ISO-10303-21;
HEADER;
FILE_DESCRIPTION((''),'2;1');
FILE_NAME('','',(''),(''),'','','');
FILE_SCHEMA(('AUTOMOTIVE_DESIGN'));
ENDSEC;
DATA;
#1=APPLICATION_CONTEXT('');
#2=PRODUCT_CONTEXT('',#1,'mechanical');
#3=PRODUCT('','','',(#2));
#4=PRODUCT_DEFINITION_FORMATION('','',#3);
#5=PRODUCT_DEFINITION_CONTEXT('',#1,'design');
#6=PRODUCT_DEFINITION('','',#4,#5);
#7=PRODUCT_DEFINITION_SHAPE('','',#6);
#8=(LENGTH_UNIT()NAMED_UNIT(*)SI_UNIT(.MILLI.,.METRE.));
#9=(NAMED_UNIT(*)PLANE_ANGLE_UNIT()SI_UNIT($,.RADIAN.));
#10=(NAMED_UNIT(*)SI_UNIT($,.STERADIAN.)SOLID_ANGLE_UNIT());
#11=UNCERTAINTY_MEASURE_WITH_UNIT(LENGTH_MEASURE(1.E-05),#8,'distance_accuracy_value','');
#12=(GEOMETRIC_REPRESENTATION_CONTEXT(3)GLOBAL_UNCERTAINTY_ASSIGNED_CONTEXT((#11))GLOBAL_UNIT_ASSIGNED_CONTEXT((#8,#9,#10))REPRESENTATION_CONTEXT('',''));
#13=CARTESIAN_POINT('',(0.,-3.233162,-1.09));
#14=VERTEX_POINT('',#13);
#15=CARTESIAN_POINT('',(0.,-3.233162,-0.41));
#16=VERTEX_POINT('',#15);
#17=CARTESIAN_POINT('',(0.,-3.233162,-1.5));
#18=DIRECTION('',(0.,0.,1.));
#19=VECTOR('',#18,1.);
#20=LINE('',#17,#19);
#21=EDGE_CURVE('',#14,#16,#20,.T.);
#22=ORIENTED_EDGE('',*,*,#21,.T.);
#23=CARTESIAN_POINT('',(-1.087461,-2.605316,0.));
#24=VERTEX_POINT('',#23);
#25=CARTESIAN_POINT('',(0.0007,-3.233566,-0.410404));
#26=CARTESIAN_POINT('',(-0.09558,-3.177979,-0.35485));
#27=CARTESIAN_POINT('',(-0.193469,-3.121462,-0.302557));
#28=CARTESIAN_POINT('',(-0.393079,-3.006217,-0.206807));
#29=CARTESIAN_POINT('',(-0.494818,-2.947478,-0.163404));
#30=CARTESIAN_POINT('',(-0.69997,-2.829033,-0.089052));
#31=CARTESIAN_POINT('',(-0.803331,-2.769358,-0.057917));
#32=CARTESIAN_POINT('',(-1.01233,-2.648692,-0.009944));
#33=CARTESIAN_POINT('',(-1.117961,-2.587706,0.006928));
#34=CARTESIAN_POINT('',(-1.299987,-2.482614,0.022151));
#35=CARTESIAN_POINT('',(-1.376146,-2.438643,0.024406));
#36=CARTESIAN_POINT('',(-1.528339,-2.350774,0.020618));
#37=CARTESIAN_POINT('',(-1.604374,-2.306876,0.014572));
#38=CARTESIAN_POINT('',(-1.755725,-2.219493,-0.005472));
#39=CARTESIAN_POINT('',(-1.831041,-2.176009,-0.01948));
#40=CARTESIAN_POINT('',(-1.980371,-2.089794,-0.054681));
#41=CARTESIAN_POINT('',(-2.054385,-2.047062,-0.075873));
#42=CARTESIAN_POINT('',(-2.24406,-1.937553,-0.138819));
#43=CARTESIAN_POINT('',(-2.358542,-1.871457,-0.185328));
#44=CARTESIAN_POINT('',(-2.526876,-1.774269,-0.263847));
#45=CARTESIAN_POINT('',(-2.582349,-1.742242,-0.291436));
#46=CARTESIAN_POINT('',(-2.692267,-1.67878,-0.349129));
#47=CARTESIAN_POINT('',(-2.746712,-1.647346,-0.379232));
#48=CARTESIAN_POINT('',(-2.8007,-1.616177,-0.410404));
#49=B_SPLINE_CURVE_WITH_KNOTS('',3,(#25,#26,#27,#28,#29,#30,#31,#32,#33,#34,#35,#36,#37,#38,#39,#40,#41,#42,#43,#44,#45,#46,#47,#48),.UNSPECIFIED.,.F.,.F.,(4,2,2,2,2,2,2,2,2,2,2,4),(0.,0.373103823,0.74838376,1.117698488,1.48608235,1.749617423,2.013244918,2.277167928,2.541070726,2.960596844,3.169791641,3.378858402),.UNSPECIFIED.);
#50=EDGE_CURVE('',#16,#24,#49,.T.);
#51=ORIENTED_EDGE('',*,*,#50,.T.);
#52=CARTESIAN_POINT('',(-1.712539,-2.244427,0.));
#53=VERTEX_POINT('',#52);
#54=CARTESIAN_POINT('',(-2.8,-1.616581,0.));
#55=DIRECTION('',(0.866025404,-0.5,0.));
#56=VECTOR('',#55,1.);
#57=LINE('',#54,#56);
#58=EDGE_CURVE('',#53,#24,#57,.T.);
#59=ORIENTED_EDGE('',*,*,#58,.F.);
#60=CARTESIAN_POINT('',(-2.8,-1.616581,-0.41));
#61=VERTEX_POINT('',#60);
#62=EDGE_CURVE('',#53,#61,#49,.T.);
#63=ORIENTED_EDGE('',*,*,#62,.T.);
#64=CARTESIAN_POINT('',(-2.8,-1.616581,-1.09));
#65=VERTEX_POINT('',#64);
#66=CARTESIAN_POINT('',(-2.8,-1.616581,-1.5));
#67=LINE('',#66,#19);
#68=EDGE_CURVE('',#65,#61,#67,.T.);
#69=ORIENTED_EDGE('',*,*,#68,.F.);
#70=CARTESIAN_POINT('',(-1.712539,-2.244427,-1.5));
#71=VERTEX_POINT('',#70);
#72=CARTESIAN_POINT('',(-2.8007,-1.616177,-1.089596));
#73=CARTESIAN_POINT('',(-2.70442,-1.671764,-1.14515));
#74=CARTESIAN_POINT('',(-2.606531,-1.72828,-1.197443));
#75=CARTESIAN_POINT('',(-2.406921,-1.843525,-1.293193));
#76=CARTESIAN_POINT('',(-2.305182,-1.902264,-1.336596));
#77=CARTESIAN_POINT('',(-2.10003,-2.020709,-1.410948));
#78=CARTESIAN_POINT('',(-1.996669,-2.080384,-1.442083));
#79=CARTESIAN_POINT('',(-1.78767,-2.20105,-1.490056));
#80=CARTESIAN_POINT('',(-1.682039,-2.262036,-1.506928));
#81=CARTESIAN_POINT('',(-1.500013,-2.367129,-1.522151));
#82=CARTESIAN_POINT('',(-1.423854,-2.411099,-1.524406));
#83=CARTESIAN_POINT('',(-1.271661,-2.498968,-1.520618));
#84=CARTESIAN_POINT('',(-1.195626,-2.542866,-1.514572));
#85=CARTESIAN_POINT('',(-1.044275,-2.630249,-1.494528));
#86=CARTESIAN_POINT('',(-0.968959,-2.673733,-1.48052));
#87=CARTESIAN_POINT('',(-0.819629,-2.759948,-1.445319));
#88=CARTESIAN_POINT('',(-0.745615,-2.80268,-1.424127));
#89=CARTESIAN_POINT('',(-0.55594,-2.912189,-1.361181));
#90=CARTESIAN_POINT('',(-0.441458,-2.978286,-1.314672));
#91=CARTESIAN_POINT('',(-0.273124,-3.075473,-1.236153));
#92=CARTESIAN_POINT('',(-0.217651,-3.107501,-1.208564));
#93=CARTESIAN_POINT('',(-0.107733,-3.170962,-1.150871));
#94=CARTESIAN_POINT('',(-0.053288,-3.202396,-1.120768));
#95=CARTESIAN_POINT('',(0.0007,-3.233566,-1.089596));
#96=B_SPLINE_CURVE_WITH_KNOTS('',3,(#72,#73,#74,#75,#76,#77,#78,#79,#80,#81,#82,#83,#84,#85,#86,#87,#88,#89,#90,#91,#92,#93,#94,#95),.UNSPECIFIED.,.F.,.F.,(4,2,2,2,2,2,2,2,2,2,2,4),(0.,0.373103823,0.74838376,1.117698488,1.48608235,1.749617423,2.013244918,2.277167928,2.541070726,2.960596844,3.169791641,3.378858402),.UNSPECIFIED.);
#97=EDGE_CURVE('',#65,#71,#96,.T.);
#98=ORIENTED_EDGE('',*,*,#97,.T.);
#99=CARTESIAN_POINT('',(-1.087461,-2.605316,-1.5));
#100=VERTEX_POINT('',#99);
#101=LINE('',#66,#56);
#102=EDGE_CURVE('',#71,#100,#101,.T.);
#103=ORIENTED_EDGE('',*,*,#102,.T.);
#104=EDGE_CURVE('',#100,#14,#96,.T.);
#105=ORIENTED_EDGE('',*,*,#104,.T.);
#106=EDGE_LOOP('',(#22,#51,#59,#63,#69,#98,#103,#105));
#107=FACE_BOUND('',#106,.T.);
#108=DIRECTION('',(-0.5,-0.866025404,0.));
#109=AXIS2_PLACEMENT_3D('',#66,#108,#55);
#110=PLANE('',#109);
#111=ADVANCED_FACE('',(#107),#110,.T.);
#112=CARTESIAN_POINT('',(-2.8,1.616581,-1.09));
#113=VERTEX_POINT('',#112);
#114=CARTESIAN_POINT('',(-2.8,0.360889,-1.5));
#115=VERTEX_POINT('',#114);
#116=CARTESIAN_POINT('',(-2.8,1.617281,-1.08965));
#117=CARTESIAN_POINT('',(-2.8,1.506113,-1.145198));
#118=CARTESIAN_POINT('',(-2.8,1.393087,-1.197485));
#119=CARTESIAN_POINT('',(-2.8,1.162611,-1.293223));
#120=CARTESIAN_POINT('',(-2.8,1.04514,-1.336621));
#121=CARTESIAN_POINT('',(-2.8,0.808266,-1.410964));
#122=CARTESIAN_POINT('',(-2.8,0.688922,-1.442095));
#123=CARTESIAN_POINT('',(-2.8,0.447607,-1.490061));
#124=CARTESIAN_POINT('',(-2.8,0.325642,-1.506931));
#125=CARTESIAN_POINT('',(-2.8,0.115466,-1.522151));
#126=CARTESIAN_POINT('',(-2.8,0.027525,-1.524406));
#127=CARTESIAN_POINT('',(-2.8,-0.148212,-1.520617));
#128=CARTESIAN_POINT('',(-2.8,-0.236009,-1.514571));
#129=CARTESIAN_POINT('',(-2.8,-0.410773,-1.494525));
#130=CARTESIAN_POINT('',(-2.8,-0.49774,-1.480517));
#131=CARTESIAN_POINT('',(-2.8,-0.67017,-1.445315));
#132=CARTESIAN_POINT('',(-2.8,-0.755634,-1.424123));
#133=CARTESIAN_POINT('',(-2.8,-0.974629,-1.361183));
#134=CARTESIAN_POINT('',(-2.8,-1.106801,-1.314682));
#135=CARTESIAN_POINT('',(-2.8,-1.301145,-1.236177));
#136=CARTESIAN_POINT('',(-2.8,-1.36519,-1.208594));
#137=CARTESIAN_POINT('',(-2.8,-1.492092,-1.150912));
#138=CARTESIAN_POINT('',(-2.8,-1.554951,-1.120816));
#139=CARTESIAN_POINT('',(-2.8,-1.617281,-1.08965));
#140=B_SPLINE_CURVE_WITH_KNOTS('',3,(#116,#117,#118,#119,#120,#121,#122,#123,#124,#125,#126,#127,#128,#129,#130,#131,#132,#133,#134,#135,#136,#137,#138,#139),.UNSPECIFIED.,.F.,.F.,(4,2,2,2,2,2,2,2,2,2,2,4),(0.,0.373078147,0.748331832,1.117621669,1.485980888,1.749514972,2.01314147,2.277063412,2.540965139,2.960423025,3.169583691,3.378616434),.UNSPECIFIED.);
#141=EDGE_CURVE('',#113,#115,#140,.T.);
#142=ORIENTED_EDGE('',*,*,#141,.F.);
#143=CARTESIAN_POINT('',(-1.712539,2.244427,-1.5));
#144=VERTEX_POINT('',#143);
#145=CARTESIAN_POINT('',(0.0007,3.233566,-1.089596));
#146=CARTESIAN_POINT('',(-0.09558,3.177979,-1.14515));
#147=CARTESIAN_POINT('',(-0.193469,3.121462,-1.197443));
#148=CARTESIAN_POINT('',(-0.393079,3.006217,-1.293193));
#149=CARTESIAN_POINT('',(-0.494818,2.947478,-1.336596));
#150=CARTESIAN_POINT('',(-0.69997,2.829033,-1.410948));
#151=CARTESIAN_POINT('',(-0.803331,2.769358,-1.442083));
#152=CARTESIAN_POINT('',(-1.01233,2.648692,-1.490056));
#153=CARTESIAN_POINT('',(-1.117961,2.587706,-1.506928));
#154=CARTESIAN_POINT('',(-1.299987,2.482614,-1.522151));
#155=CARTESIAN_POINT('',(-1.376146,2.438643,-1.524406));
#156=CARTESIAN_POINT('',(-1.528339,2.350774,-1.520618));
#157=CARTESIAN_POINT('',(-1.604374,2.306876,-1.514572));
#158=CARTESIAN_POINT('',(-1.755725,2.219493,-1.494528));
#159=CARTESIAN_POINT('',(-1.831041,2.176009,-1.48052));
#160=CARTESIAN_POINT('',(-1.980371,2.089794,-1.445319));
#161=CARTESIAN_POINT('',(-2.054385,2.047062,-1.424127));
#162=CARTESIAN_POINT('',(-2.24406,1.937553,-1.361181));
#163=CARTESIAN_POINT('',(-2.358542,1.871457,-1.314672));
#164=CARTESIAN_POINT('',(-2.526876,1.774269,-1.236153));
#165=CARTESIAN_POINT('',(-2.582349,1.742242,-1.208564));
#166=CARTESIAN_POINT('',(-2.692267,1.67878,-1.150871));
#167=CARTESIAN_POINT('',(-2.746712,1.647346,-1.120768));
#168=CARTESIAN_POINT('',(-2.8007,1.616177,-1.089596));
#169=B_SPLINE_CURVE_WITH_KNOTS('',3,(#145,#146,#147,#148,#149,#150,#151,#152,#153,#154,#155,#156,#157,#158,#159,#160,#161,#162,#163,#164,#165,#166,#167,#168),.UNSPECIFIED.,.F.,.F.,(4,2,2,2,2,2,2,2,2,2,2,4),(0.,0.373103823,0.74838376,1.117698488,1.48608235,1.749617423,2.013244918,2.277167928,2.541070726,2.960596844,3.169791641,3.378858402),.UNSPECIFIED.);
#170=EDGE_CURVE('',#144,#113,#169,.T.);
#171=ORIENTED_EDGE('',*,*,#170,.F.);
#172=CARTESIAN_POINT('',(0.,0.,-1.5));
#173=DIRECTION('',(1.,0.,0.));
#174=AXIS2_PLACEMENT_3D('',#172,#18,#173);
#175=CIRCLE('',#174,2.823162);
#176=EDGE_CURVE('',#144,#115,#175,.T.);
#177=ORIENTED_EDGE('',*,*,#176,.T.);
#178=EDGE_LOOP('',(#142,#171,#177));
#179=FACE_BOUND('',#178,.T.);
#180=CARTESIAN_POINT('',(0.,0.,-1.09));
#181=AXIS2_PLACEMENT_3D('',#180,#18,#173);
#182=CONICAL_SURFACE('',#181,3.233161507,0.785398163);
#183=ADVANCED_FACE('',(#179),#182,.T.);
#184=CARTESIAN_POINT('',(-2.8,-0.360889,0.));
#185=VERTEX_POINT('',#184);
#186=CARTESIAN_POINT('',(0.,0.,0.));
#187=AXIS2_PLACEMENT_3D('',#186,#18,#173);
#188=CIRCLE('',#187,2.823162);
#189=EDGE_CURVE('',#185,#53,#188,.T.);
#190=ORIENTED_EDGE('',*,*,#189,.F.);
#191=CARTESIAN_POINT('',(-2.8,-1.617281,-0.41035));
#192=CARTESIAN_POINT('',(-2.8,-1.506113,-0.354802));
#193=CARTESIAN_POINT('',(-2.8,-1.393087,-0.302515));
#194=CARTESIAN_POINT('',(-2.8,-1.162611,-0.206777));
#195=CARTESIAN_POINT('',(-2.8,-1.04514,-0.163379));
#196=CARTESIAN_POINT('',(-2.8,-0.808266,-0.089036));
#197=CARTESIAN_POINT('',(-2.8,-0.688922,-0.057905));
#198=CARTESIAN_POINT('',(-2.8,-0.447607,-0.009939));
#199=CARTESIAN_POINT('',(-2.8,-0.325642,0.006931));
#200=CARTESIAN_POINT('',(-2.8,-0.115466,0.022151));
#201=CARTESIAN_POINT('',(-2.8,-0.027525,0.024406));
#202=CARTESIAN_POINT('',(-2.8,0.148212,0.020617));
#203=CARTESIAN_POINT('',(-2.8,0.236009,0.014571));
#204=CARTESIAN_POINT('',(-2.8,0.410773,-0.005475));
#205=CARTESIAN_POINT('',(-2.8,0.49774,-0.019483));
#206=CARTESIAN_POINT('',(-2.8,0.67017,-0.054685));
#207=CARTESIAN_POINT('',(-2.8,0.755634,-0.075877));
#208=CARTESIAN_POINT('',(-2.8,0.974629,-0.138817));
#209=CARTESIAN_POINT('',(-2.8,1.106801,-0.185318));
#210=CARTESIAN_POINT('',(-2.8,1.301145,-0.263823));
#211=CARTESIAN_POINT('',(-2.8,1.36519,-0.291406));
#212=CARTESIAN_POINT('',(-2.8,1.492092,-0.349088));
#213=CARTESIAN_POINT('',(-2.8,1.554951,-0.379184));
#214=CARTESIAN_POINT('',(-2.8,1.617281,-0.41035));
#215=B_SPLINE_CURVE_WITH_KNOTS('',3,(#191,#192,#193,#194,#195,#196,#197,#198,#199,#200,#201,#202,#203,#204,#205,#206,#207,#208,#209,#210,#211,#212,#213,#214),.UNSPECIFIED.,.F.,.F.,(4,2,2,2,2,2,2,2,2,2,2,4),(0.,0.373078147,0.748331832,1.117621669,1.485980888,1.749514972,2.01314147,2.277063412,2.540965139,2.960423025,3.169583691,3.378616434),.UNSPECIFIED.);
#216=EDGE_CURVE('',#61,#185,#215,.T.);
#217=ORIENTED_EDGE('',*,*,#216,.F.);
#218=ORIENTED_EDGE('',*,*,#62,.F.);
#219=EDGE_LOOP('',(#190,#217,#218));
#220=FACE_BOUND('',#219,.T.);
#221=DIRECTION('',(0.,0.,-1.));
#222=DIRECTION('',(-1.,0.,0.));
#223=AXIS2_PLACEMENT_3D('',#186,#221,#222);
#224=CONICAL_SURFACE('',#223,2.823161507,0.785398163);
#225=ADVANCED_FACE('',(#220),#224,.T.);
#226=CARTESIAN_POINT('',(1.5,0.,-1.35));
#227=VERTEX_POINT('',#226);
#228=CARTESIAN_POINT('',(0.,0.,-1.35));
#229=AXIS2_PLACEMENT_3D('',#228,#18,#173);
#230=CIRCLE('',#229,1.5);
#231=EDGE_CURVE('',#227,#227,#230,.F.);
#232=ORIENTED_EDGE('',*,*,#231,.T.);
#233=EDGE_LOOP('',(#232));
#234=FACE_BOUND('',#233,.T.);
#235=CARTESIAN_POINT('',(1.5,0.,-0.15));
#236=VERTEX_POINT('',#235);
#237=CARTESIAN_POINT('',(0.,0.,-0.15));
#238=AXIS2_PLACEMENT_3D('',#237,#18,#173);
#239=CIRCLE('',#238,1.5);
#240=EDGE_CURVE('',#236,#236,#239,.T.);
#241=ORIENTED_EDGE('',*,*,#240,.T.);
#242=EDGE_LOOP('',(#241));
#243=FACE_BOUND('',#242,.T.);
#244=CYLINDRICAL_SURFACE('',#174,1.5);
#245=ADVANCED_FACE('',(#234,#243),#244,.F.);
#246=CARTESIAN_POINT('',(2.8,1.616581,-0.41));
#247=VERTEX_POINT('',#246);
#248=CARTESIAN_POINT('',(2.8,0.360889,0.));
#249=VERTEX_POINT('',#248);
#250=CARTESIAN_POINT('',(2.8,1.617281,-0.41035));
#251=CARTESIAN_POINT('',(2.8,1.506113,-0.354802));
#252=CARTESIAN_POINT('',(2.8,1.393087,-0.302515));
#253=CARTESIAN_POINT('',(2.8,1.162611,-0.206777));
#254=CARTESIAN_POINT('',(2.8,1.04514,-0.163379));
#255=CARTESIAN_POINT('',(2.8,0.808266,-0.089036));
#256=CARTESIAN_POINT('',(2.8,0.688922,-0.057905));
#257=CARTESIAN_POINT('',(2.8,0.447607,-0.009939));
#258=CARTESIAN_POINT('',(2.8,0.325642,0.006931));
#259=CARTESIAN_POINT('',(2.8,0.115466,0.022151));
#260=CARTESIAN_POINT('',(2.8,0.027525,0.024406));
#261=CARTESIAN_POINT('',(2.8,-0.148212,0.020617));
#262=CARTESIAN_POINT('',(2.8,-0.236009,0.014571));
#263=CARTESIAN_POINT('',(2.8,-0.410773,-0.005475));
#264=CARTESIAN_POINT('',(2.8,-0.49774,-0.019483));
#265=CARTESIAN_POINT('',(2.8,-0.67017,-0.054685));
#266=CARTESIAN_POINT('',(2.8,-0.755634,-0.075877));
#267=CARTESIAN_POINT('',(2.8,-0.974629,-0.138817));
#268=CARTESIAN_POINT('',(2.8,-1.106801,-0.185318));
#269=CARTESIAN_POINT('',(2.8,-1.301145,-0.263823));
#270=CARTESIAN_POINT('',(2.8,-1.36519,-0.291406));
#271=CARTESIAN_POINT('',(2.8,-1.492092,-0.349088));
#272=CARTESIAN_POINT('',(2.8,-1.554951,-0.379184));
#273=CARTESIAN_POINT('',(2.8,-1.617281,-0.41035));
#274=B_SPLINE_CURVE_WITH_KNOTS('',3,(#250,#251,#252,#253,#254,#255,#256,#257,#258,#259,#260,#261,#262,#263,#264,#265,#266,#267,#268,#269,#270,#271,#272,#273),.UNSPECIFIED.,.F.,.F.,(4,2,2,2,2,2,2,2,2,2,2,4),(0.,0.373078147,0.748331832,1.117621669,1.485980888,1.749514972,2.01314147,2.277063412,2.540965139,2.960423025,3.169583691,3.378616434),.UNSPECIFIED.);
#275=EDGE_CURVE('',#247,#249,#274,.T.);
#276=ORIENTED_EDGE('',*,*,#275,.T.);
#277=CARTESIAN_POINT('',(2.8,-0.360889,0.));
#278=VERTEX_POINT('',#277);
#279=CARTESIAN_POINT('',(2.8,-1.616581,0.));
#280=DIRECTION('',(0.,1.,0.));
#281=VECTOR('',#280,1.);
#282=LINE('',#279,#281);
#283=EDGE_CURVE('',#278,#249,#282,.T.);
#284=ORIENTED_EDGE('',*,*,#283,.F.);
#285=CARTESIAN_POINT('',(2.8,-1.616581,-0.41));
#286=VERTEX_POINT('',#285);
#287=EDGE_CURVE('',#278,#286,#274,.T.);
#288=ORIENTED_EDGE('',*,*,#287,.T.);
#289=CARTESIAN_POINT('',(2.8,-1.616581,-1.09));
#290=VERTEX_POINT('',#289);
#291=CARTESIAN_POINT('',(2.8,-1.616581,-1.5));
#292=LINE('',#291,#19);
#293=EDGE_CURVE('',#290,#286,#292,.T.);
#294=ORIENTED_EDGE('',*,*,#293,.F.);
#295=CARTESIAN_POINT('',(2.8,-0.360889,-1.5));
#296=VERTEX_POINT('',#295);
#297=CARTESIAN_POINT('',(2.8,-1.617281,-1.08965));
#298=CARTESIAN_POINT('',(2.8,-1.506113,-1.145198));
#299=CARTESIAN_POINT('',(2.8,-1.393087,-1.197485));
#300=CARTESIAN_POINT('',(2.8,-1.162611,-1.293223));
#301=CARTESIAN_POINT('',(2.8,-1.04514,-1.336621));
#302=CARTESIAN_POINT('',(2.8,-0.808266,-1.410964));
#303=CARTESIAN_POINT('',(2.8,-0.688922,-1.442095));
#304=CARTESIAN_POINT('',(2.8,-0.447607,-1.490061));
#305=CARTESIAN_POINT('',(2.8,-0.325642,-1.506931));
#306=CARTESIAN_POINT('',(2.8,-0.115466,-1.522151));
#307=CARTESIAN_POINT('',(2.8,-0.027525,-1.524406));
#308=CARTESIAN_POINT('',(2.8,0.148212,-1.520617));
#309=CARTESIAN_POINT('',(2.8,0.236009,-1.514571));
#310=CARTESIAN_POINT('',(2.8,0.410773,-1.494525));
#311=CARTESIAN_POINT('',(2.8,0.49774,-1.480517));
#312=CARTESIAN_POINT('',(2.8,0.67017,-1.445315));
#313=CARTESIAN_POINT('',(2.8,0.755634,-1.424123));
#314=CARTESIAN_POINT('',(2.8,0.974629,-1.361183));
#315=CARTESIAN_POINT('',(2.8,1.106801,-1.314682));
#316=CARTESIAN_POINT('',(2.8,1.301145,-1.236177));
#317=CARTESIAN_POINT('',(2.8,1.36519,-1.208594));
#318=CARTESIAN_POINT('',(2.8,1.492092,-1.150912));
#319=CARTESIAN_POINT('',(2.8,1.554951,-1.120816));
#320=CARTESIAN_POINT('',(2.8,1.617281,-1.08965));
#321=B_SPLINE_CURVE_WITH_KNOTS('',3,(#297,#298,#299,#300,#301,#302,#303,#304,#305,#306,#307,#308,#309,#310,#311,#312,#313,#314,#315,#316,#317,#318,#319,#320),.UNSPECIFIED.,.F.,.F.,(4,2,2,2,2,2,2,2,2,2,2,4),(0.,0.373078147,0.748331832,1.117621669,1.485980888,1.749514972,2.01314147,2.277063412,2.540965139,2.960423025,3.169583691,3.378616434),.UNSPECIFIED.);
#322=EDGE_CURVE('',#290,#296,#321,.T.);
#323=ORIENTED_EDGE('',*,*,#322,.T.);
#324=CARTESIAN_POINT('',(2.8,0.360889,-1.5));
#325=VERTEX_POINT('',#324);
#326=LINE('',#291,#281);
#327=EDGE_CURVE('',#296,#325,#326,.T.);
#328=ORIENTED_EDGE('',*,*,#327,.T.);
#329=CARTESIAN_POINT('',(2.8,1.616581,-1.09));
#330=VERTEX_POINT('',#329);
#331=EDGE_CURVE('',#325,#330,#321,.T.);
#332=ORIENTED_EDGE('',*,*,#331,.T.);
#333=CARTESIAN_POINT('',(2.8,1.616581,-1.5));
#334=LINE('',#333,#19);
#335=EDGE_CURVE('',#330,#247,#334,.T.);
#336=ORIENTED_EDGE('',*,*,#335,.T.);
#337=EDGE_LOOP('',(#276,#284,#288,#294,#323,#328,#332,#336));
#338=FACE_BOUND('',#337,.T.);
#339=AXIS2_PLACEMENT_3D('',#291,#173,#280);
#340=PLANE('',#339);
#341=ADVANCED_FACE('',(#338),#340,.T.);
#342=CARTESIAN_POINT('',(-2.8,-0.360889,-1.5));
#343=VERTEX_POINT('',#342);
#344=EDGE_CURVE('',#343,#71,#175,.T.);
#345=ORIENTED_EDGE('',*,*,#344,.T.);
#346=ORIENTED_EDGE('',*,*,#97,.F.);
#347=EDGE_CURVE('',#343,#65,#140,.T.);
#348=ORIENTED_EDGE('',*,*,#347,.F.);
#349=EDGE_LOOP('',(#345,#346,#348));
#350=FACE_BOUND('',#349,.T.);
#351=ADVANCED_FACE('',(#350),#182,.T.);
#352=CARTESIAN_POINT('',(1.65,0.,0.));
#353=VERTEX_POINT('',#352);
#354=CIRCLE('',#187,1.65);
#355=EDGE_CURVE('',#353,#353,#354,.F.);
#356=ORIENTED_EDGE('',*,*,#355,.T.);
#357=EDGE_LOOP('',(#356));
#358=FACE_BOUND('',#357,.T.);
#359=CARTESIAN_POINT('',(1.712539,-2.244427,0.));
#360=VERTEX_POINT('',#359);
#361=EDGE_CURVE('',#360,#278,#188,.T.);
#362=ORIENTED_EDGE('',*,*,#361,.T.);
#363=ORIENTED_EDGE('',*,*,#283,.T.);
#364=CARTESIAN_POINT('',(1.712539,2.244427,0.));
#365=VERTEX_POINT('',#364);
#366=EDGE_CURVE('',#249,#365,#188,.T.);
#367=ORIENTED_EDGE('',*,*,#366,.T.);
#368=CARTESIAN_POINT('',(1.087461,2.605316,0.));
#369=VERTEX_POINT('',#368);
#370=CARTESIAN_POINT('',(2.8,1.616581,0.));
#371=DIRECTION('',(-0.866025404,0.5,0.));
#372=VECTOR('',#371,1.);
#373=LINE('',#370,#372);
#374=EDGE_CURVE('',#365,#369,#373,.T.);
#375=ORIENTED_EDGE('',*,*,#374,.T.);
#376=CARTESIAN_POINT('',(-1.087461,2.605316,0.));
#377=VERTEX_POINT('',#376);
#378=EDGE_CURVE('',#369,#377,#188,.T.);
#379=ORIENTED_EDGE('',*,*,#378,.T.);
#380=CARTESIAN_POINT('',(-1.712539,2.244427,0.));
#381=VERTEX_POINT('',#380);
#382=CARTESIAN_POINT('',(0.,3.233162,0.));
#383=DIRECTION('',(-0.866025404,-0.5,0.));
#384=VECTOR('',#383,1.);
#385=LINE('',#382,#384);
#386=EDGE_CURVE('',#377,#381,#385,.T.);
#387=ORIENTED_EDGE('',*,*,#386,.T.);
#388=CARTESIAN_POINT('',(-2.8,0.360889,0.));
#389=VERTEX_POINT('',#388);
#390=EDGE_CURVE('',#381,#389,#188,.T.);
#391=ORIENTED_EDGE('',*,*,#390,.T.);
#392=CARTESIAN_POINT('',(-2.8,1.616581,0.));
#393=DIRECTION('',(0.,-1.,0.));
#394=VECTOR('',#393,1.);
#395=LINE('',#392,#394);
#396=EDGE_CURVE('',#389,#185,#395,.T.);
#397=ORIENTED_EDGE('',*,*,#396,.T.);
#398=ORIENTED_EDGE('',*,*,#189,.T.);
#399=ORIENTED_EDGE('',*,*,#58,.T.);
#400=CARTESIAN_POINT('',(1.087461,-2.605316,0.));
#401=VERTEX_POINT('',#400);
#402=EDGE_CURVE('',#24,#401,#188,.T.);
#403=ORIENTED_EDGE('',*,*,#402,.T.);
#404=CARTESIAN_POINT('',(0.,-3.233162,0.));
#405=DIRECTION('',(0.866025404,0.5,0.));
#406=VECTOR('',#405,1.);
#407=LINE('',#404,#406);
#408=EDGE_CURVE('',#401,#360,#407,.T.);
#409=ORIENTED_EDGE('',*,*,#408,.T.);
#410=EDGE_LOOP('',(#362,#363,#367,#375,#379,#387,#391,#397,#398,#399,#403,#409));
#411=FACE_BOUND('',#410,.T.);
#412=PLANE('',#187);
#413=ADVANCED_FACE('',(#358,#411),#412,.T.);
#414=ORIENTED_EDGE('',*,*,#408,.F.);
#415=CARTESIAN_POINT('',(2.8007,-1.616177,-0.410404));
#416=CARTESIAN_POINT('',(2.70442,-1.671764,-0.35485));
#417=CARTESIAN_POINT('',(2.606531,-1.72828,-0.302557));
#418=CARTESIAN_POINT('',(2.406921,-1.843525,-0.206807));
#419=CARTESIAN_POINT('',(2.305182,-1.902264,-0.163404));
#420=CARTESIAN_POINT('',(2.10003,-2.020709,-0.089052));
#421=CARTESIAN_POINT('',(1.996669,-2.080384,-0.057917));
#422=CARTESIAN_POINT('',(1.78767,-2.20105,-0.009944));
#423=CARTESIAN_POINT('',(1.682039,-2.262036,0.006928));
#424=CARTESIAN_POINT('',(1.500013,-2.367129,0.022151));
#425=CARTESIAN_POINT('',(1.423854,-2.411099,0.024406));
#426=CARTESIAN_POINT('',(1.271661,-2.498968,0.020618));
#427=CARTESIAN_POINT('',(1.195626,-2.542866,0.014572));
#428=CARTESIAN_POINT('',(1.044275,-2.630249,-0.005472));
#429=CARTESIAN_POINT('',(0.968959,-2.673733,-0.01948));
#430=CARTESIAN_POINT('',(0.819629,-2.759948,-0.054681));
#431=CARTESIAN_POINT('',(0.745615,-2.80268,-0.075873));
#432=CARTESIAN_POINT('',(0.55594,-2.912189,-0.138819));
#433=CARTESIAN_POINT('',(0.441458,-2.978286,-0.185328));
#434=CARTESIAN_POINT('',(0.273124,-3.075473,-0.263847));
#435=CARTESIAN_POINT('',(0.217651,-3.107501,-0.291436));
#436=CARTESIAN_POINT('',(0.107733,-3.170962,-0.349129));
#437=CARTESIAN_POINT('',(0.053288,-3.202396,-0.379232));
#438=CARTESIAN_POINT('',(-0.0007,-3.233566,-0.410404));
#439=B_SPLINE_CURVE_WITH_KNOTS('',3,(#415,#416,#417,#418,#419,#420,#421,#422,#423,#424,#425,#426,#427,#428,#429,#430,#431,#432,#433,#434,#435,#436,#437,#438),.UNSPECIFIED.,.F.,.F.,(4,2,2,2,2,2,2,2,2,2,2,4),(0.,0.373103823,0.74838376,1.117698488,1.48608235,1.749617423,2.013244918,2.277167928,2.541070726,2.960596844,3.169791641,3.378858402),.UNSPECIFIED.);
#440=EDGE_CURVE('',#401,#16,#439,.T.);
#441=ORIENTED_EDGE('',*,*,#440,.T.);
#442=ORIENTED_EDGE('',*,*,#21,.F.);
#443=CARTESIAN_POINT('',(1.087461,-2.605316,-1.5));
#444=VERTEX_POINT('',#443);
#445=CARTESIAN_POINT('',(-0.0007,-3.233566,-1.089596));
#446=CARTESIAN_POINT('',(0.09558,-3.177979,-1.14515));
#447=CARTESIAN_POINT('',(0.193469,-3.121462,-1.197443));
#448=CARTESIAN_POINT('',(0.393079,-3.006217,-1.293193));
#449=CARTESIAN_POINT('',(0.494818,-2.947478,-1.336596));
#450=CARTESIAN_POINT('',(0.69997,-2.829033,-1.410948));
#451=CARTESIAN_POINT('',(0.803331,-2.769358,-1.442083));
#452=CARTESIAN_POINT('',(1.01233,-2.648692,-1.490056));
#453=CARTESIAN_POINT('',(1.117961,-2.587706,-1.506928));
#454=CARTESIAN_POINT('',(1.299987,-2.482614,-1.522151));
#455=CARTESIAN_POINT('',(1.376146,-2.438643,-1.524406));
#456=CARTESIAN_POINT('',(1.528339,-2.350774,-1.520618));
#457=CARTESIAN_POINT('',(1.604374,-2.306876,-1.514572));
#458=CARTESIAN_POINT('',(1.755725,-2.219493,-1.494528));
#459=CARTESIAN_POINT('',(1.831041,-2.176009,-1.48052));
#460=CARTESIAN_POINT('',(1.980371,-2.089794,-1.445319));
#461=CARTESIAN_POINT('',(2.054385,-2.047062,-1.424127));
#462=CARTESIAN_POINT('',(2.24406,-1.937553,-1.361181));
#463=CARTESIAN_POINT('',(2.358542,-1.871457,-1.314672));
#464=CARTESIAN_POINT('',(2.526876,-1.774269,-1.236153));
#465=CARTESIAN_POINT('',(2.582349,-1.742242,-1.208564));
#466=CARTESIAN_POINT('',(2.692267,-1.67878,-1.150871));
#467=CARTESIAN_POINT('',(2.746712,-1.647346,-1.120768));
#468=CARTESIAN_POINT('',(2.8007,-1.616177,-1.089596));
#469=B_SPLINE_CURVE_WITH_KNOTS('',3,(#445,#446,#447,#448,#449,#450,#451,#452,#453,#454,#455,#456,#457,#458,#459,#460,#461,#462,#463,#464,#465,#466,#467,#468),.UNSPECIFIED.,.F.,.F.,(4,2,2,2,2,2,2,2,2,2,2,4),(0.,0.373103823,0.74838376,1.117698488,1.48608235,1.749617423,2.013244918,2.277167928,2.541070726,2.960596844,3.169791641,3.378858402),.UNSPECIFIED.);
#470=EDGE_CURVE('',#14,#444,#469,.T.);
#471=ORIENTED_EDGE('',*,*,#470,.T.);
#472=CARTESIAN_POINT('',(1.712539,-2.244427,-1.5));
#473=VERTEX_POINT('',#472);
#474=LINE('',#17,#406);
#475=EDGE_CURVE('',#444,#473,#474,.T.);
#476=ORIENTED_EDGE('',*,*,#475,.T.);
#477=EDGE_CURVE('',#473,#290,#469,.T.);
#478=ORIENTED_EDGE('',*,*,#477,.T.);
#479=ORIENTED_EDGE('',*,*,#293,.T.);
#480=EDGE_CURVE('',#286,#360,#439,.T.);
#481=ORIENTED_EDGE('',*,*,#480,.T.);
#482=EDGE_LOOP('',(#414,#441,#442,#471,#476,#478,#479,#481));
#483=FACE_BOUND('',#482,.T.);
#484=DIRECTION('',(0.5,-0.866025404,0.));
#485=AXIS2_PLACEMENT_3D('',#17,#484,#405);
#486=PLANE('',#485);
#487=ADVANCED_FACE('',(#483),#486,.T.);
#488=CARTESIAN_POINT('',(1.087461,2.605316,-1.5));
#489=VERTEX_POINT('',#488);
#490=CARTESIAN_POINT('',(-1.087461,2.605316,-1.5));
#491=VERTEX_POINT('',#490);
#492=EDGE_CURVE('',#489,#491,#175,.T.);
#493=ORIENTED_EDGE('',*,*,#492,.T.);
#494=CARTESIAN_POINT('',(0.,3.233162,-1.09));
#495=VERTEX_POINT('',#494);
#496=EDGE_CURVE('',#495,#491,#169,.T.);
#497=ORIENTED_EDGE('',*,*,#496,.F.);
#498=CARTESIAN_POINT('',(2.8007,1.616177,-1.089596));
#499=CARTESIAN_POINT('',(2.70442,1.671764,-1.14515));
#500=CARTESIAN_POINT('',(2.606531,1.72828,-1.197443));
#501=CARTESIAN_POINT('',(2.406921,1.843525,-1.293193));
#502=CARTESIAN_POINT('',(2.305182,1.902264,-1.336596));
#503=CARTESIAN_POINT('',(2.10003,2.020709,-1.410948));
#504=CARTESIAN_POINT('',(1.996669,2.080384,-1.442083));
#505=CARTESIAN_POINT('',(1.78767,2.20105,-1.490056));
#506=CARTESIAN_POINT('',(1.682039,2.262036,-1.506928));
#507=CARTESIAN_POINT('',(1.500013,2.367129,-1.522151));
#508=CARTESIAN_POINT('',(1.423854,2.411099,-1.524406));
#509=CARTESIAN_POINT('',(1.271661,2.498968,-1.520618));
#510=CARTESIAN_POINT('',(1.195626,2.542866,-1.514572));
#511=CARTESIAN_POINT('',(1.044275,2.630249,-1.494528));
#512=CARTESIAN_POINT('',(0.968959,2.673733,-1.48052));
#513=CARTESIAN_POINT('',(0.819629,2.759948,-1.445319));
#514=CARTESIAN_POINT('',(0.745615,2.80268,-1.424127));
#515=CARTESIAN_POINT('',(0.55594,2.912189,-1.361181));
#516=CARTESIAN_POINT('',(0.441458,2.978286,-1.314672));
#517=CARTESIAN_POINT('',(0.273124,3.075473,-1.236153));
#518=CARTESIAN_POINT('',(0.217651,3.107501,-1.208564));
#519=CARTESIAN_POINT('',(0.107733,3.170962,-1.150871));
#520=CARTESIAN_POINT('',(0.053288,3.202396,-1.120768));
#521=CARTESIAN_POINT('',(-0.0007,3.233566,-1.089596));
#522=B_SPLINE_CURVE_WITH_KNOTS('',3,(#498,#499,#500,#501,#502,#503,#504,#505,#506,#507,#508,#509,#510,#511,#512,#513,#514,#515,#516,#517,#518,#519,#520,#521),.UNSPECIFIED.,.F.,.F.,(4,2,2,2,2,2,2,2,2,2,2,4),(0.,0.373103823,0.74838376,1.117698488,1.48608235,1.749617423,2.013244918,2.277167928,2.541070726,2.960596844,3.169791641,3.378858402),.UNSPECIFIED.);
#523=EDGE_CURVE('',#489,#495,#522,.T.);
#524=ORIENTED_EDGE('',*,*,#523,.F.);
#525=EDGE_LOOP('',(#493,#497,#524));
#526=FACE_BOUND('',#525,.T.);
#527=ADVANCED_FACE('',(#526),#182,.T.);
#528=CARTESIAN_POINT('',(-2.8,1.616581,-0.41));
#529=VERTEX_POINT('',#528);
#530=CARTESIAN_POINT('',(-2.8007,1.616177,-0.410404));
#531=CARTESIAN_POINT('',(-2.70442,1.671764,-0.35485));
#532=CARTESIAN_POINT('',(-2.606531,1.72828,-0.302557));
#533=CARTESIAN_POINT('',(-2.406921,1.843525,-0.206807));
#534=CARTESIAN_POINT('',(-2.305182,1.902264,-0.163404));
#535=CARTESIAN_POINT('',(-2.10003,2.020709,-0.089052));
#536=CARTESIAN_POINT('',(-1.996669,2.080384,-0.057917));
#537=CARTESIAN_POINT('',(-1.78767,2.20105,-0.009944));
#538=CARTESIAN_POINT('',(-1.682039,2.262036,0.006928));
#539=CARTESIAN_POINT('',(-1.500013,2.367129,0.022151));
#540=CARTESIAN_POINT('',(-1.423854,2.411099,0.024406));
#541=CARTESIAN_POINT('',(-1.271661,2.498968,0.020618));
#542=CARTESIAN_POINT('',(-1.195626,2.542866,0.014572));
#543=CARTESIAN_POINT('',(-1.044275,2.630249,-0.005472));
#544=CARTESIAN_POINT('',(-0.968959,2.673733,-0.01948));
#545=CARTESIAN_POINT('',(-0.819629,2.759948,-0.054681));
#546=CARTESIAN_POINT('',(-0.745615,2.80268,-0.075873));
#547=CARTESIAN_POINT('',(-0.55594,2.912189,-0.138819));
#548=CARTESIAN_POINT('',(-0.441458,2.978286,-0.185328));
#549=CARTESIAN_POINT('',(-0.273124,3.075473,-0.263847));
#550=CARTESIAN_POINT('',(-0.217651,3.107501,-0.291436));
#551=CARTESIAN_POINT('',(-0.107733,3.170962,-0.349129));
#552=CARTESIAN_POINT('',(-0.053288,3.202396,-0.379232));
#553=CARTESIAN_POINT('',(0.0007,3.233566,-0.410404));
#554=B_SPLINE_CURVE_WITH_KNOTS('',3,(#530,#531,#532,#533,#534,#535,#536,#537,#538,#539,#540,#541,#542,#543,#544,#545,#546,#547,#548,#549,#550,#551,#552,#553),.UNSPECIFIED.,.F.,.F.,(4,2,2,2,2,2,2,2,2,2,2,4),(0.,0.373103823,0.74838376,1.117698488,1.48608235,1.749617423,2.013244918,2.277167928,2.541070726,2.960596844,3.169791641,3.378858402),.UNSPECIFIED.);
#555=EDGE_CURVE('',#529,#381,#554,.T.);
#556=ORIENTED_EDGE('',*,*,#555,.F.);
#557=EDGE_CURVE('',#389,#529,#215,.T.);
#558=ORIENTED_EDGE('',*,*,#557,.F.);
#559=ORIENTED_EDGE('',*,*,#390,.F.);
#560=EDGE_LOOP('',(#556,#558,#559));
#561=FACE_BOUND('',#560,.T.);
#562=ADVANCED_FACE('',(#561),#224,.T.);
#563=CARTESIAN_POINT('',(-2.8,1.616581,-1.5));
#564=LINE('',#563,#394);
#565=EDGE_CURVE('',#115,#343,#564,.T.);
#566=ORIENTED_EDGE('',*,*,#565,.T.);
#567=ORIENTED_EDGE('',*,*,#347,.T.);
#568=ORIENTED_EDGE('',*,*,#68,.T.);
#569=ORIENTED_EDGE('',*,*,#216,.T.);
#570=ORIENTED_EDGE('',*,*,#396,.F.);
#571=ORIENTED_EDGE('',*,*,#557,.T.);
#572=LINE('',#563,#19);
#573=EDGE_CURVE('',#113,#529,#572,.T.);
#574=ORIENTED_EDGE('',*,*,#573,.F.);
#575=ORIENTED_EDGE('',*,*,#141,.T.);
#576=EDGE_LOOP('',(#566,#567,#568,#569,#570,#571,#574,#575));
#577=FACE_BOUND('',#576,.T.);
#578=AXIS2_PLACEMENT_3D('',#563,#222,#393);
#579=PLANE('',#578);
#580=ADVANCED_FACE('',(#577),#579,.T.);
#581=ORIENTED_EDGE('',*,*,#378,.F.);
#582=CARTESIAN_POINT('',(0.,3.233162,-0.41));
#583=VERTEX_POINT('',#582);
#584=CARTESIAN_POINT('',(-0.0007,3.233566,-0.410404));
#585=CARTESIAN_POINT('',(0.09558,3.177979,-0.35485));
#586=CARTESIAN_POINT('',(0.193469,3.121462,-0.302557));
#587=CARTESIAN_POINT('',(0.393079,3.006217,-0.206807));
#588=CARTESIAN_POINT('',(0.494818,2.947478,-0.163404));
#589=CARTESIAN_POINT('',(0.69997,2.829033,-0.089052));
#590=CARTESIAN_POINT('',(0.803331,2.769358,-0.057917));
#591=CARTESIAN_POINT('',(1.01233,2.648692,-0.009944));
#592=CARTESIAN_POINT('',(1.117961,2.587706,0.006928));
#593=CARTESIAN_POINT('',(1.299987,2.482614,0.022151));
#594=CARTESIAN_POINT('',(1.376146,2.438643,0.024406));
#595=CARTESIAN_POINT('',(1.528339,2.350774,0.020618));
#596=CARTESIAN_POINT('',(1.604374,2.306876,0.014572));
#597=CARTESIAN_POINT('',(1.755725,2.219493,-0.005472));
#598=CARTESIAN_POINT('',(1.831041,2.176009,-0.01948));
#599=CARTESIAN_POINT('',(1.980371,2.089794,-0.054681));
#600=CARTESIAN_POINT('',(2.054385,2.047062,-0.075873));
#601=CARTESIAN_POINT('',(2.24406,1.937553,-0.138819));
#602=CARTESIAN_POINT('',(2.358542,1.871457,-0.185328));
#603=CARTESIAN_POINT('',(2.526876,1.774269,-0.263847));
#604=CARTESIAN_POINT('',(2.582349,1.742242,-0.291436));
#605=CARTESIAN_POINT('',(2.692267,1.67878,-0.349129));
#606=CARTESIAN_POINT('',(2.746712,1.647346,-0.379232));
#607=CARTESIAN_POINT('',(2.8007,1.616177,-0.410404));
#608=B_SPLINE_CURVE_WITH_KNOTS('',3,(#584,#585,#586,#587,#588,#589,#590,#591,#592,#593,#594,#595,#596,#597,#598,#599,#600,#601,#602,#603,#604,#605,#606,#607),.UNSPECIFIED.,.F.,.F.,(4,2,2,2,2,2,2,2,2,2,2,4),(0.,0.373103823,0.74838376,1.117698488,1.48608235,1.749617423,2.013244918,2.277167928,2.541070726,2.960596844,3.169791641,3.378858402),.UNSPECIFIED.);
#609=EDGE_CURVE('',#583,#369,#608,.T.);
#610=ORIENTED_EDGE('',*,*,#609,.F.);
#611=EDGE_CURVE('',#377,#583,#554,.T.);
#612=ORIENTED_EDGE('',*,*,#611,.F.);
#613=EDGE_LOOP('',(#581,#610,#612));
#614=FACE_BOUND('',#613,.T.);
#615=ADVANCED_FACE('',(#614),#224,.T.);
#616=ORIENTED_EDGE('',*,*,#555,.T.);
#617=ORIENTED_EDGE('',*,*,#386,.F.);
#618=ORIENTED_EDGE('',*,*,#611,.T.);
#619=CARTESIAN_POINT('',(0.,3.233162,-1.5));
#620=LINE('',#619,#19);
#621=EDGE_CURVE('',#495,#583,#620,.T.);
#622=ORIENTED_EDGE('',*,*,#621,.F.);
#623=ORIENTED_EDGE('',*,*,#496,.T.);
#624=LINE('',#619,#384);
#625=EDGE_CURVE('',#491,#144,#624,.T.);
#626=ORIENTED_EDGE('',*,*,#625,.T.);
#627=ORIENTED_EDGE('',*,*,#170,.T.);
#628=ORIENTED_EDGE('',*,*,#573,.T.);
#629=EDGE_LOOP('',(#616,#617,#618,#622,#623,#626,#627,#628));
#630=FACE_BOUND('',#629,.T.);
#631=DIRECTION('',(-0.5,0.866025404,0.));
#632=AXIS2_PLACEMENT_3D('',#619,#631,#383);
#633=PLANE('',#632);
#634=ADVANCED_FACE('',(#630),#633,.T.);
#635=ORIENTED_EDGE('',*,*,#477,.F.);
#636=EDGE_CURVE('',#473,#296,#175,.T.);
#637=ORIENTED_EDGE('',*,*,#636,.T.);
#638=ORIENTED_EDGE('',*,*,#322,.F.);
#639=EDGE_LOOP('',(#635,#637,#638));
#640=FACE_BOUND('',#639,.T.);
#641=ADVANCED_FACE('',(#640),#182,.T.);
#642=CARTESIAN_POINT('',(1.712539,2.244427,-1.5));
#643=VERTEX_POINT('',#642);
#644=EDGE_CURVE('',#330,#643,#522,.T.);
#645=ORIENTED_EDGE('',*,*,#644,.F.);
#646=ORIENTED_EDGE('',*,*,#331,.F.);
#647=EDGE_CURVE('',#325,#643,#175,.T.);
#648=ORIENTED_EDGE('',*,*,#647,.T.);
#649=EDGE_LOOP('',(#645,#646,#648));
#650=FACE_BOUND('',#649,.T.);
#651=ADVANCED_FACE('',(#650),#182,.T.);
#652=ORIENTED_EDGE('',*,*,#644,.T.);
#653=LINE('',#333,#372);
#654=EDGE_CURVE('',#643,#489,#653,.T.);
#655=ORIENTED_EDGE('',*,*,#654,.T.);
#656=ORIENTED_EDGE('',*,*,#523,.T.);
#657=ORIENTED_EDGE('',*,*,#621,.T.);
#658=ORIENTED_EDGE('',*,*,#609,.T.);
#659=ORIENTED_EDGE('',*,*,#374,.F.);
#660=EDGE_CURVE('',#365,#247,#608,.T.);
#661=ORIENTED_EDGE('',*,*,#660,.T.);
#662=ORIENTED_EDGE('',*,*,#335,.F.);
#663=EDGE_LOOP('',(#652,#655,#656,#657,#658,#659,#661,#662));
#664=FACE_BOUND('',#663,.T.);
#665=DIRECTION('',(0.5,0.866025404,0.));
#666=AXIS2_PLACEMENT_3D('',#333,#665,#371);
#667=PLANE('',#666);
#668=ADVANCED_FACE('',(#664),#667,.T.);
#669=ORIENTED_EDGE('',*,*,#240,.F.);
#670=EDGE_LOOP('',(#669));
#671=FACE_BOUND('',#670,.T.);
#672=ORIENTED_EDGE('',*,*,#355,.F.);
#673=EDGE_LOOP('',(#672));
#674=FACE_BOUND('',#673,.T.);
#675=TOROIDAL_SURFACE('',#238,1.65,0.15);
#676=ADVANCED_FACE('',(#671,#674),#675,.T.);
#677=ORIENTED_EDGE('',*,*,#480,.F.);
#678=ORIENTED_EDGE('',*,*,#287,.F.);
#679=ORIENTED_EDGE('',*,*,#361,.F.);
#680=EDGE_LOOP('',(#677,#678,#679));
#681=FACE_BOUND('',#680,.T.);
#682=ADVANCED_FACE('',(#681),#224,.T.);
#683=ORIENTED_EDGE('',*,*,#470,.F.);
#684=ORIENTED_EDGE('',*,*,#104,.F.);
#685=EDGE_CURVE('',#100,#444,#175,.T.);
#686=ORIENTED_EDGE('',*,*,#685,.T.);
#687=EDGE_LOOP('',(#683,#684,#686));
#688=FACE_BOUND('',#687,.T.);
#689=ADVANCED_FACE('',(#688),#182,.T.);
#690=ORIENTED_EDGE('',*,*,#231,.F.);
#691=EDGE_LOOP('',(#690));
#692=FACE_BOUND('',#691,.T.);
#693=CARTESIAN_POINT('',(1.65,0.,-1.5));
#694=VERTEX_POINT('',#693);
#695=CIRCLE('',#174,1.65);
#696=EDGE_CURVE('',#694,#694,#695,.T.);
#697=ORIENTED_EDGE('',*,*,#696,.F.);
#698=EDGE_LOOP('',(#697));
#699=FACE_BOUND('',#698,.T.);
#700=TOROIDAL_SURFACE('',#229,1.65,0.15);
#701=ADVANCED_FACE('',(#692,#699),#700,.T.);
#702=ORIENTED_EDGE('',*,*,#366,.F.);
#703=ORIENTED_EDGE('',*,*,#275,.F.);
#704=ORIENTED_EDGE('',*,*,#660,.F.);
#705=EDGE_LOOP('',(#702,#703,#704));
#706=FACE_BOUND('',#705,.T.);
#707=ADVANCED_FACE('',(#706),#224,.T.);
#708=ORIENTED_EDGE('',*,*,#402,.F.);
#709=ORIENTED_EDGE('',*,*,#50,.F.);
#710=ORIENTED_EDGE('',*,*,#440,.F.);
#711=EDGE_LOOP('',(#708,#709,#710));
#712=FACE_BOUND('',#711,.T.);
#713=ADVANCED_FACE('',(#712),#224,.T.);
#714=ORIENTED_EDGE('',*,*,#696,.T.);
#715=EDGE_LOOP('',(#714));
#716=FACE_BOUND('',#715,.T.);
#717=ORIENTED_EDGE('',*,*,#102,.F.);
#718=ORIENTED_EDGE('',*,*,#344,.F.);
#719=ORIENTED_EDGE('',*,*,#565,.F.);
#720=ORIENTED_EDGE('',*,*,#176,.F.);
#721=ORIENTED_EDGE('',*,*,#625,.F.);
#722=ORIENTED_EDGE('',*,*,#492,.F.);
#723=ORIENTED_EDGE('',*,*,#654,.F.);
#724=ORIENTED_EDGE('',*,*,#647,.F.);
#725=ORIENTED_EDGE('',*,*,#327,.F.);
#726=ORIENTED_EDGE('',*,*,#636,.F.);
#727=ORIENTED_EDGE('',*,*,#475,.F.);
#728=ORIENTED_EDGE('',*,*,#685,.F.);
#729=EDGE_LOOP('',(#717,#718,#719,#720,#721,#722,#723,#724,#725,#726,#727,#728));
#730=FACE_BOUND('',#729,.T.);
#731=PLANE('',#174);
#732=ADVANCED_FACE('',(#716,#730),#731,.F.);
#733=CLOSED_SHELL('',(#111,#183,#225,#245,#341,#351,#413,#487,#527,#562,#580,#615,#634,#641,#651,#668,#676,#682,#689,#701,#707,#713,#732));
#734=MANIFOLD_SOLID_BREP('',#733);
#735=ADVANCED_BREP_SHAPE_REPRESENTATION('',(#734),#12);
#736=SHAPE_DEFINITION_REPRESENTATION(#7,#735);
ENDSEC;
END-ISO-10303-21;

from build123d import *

# Parameters (mm, degrees)
EXTRUDE_2_DEPTH     = 1.5
SKETCH_2_R          = 1.5
CUT_EXTRUDE_1_DEPTH = 1.5
FILLET_3_R          = 0.15


with BuildPart() as part:
    # 草图1 → 凸台-拉伸2 (new body)
    with BuildSketch(Plane.XY):
        Polygon((0, 3.233161507), (-2.8, 1.616580754), (-2.8, -1.616580754), (0, -3.233161507), (2.8, -1.616580754), (2.8, 1.616580754), align=None)
    extrude(amount=-EXTRUDE_2_DEPTH)

    # 草图2 → 切除-拉伸1 (cut)
    with BuildSketch(Plane.XY):
        Circle(SKETCH_2_R)
    extrude(amount=-CUT_EXTRUDE_1_DEPTH, mode=Mode.SUBTRACT)

    # 圆角3
    fillet_3_edges = [part.edges().sort_by_distance(p)[0] for p in [
        (-1.5, 0, -1.5),
        (-1.5, 0, 0),
    ]]
    fillet(fillet_3_edges, radius=FILLET_3_R)

    # 草图3 → 切除-旋转1 (revolve, cut)
    with BuildSketch(Plane(origin=(0, 0, 0), x_dir=(0, 0, -1), z_dir=(1, 0, 0))):
        Polygon((0, 3.233161507), (0.41, 3.233161507), (0, 2.823161507), align=None)
        Polygon((1.5, 3.233161507), (1.09, 3.233161507), (1.5, 2.823161507), align=None)
    revolve(axis=Axis((0, 0, 0), (0, 0, -1)), mode=Mode.SUBTRACT)


solid = part.part
